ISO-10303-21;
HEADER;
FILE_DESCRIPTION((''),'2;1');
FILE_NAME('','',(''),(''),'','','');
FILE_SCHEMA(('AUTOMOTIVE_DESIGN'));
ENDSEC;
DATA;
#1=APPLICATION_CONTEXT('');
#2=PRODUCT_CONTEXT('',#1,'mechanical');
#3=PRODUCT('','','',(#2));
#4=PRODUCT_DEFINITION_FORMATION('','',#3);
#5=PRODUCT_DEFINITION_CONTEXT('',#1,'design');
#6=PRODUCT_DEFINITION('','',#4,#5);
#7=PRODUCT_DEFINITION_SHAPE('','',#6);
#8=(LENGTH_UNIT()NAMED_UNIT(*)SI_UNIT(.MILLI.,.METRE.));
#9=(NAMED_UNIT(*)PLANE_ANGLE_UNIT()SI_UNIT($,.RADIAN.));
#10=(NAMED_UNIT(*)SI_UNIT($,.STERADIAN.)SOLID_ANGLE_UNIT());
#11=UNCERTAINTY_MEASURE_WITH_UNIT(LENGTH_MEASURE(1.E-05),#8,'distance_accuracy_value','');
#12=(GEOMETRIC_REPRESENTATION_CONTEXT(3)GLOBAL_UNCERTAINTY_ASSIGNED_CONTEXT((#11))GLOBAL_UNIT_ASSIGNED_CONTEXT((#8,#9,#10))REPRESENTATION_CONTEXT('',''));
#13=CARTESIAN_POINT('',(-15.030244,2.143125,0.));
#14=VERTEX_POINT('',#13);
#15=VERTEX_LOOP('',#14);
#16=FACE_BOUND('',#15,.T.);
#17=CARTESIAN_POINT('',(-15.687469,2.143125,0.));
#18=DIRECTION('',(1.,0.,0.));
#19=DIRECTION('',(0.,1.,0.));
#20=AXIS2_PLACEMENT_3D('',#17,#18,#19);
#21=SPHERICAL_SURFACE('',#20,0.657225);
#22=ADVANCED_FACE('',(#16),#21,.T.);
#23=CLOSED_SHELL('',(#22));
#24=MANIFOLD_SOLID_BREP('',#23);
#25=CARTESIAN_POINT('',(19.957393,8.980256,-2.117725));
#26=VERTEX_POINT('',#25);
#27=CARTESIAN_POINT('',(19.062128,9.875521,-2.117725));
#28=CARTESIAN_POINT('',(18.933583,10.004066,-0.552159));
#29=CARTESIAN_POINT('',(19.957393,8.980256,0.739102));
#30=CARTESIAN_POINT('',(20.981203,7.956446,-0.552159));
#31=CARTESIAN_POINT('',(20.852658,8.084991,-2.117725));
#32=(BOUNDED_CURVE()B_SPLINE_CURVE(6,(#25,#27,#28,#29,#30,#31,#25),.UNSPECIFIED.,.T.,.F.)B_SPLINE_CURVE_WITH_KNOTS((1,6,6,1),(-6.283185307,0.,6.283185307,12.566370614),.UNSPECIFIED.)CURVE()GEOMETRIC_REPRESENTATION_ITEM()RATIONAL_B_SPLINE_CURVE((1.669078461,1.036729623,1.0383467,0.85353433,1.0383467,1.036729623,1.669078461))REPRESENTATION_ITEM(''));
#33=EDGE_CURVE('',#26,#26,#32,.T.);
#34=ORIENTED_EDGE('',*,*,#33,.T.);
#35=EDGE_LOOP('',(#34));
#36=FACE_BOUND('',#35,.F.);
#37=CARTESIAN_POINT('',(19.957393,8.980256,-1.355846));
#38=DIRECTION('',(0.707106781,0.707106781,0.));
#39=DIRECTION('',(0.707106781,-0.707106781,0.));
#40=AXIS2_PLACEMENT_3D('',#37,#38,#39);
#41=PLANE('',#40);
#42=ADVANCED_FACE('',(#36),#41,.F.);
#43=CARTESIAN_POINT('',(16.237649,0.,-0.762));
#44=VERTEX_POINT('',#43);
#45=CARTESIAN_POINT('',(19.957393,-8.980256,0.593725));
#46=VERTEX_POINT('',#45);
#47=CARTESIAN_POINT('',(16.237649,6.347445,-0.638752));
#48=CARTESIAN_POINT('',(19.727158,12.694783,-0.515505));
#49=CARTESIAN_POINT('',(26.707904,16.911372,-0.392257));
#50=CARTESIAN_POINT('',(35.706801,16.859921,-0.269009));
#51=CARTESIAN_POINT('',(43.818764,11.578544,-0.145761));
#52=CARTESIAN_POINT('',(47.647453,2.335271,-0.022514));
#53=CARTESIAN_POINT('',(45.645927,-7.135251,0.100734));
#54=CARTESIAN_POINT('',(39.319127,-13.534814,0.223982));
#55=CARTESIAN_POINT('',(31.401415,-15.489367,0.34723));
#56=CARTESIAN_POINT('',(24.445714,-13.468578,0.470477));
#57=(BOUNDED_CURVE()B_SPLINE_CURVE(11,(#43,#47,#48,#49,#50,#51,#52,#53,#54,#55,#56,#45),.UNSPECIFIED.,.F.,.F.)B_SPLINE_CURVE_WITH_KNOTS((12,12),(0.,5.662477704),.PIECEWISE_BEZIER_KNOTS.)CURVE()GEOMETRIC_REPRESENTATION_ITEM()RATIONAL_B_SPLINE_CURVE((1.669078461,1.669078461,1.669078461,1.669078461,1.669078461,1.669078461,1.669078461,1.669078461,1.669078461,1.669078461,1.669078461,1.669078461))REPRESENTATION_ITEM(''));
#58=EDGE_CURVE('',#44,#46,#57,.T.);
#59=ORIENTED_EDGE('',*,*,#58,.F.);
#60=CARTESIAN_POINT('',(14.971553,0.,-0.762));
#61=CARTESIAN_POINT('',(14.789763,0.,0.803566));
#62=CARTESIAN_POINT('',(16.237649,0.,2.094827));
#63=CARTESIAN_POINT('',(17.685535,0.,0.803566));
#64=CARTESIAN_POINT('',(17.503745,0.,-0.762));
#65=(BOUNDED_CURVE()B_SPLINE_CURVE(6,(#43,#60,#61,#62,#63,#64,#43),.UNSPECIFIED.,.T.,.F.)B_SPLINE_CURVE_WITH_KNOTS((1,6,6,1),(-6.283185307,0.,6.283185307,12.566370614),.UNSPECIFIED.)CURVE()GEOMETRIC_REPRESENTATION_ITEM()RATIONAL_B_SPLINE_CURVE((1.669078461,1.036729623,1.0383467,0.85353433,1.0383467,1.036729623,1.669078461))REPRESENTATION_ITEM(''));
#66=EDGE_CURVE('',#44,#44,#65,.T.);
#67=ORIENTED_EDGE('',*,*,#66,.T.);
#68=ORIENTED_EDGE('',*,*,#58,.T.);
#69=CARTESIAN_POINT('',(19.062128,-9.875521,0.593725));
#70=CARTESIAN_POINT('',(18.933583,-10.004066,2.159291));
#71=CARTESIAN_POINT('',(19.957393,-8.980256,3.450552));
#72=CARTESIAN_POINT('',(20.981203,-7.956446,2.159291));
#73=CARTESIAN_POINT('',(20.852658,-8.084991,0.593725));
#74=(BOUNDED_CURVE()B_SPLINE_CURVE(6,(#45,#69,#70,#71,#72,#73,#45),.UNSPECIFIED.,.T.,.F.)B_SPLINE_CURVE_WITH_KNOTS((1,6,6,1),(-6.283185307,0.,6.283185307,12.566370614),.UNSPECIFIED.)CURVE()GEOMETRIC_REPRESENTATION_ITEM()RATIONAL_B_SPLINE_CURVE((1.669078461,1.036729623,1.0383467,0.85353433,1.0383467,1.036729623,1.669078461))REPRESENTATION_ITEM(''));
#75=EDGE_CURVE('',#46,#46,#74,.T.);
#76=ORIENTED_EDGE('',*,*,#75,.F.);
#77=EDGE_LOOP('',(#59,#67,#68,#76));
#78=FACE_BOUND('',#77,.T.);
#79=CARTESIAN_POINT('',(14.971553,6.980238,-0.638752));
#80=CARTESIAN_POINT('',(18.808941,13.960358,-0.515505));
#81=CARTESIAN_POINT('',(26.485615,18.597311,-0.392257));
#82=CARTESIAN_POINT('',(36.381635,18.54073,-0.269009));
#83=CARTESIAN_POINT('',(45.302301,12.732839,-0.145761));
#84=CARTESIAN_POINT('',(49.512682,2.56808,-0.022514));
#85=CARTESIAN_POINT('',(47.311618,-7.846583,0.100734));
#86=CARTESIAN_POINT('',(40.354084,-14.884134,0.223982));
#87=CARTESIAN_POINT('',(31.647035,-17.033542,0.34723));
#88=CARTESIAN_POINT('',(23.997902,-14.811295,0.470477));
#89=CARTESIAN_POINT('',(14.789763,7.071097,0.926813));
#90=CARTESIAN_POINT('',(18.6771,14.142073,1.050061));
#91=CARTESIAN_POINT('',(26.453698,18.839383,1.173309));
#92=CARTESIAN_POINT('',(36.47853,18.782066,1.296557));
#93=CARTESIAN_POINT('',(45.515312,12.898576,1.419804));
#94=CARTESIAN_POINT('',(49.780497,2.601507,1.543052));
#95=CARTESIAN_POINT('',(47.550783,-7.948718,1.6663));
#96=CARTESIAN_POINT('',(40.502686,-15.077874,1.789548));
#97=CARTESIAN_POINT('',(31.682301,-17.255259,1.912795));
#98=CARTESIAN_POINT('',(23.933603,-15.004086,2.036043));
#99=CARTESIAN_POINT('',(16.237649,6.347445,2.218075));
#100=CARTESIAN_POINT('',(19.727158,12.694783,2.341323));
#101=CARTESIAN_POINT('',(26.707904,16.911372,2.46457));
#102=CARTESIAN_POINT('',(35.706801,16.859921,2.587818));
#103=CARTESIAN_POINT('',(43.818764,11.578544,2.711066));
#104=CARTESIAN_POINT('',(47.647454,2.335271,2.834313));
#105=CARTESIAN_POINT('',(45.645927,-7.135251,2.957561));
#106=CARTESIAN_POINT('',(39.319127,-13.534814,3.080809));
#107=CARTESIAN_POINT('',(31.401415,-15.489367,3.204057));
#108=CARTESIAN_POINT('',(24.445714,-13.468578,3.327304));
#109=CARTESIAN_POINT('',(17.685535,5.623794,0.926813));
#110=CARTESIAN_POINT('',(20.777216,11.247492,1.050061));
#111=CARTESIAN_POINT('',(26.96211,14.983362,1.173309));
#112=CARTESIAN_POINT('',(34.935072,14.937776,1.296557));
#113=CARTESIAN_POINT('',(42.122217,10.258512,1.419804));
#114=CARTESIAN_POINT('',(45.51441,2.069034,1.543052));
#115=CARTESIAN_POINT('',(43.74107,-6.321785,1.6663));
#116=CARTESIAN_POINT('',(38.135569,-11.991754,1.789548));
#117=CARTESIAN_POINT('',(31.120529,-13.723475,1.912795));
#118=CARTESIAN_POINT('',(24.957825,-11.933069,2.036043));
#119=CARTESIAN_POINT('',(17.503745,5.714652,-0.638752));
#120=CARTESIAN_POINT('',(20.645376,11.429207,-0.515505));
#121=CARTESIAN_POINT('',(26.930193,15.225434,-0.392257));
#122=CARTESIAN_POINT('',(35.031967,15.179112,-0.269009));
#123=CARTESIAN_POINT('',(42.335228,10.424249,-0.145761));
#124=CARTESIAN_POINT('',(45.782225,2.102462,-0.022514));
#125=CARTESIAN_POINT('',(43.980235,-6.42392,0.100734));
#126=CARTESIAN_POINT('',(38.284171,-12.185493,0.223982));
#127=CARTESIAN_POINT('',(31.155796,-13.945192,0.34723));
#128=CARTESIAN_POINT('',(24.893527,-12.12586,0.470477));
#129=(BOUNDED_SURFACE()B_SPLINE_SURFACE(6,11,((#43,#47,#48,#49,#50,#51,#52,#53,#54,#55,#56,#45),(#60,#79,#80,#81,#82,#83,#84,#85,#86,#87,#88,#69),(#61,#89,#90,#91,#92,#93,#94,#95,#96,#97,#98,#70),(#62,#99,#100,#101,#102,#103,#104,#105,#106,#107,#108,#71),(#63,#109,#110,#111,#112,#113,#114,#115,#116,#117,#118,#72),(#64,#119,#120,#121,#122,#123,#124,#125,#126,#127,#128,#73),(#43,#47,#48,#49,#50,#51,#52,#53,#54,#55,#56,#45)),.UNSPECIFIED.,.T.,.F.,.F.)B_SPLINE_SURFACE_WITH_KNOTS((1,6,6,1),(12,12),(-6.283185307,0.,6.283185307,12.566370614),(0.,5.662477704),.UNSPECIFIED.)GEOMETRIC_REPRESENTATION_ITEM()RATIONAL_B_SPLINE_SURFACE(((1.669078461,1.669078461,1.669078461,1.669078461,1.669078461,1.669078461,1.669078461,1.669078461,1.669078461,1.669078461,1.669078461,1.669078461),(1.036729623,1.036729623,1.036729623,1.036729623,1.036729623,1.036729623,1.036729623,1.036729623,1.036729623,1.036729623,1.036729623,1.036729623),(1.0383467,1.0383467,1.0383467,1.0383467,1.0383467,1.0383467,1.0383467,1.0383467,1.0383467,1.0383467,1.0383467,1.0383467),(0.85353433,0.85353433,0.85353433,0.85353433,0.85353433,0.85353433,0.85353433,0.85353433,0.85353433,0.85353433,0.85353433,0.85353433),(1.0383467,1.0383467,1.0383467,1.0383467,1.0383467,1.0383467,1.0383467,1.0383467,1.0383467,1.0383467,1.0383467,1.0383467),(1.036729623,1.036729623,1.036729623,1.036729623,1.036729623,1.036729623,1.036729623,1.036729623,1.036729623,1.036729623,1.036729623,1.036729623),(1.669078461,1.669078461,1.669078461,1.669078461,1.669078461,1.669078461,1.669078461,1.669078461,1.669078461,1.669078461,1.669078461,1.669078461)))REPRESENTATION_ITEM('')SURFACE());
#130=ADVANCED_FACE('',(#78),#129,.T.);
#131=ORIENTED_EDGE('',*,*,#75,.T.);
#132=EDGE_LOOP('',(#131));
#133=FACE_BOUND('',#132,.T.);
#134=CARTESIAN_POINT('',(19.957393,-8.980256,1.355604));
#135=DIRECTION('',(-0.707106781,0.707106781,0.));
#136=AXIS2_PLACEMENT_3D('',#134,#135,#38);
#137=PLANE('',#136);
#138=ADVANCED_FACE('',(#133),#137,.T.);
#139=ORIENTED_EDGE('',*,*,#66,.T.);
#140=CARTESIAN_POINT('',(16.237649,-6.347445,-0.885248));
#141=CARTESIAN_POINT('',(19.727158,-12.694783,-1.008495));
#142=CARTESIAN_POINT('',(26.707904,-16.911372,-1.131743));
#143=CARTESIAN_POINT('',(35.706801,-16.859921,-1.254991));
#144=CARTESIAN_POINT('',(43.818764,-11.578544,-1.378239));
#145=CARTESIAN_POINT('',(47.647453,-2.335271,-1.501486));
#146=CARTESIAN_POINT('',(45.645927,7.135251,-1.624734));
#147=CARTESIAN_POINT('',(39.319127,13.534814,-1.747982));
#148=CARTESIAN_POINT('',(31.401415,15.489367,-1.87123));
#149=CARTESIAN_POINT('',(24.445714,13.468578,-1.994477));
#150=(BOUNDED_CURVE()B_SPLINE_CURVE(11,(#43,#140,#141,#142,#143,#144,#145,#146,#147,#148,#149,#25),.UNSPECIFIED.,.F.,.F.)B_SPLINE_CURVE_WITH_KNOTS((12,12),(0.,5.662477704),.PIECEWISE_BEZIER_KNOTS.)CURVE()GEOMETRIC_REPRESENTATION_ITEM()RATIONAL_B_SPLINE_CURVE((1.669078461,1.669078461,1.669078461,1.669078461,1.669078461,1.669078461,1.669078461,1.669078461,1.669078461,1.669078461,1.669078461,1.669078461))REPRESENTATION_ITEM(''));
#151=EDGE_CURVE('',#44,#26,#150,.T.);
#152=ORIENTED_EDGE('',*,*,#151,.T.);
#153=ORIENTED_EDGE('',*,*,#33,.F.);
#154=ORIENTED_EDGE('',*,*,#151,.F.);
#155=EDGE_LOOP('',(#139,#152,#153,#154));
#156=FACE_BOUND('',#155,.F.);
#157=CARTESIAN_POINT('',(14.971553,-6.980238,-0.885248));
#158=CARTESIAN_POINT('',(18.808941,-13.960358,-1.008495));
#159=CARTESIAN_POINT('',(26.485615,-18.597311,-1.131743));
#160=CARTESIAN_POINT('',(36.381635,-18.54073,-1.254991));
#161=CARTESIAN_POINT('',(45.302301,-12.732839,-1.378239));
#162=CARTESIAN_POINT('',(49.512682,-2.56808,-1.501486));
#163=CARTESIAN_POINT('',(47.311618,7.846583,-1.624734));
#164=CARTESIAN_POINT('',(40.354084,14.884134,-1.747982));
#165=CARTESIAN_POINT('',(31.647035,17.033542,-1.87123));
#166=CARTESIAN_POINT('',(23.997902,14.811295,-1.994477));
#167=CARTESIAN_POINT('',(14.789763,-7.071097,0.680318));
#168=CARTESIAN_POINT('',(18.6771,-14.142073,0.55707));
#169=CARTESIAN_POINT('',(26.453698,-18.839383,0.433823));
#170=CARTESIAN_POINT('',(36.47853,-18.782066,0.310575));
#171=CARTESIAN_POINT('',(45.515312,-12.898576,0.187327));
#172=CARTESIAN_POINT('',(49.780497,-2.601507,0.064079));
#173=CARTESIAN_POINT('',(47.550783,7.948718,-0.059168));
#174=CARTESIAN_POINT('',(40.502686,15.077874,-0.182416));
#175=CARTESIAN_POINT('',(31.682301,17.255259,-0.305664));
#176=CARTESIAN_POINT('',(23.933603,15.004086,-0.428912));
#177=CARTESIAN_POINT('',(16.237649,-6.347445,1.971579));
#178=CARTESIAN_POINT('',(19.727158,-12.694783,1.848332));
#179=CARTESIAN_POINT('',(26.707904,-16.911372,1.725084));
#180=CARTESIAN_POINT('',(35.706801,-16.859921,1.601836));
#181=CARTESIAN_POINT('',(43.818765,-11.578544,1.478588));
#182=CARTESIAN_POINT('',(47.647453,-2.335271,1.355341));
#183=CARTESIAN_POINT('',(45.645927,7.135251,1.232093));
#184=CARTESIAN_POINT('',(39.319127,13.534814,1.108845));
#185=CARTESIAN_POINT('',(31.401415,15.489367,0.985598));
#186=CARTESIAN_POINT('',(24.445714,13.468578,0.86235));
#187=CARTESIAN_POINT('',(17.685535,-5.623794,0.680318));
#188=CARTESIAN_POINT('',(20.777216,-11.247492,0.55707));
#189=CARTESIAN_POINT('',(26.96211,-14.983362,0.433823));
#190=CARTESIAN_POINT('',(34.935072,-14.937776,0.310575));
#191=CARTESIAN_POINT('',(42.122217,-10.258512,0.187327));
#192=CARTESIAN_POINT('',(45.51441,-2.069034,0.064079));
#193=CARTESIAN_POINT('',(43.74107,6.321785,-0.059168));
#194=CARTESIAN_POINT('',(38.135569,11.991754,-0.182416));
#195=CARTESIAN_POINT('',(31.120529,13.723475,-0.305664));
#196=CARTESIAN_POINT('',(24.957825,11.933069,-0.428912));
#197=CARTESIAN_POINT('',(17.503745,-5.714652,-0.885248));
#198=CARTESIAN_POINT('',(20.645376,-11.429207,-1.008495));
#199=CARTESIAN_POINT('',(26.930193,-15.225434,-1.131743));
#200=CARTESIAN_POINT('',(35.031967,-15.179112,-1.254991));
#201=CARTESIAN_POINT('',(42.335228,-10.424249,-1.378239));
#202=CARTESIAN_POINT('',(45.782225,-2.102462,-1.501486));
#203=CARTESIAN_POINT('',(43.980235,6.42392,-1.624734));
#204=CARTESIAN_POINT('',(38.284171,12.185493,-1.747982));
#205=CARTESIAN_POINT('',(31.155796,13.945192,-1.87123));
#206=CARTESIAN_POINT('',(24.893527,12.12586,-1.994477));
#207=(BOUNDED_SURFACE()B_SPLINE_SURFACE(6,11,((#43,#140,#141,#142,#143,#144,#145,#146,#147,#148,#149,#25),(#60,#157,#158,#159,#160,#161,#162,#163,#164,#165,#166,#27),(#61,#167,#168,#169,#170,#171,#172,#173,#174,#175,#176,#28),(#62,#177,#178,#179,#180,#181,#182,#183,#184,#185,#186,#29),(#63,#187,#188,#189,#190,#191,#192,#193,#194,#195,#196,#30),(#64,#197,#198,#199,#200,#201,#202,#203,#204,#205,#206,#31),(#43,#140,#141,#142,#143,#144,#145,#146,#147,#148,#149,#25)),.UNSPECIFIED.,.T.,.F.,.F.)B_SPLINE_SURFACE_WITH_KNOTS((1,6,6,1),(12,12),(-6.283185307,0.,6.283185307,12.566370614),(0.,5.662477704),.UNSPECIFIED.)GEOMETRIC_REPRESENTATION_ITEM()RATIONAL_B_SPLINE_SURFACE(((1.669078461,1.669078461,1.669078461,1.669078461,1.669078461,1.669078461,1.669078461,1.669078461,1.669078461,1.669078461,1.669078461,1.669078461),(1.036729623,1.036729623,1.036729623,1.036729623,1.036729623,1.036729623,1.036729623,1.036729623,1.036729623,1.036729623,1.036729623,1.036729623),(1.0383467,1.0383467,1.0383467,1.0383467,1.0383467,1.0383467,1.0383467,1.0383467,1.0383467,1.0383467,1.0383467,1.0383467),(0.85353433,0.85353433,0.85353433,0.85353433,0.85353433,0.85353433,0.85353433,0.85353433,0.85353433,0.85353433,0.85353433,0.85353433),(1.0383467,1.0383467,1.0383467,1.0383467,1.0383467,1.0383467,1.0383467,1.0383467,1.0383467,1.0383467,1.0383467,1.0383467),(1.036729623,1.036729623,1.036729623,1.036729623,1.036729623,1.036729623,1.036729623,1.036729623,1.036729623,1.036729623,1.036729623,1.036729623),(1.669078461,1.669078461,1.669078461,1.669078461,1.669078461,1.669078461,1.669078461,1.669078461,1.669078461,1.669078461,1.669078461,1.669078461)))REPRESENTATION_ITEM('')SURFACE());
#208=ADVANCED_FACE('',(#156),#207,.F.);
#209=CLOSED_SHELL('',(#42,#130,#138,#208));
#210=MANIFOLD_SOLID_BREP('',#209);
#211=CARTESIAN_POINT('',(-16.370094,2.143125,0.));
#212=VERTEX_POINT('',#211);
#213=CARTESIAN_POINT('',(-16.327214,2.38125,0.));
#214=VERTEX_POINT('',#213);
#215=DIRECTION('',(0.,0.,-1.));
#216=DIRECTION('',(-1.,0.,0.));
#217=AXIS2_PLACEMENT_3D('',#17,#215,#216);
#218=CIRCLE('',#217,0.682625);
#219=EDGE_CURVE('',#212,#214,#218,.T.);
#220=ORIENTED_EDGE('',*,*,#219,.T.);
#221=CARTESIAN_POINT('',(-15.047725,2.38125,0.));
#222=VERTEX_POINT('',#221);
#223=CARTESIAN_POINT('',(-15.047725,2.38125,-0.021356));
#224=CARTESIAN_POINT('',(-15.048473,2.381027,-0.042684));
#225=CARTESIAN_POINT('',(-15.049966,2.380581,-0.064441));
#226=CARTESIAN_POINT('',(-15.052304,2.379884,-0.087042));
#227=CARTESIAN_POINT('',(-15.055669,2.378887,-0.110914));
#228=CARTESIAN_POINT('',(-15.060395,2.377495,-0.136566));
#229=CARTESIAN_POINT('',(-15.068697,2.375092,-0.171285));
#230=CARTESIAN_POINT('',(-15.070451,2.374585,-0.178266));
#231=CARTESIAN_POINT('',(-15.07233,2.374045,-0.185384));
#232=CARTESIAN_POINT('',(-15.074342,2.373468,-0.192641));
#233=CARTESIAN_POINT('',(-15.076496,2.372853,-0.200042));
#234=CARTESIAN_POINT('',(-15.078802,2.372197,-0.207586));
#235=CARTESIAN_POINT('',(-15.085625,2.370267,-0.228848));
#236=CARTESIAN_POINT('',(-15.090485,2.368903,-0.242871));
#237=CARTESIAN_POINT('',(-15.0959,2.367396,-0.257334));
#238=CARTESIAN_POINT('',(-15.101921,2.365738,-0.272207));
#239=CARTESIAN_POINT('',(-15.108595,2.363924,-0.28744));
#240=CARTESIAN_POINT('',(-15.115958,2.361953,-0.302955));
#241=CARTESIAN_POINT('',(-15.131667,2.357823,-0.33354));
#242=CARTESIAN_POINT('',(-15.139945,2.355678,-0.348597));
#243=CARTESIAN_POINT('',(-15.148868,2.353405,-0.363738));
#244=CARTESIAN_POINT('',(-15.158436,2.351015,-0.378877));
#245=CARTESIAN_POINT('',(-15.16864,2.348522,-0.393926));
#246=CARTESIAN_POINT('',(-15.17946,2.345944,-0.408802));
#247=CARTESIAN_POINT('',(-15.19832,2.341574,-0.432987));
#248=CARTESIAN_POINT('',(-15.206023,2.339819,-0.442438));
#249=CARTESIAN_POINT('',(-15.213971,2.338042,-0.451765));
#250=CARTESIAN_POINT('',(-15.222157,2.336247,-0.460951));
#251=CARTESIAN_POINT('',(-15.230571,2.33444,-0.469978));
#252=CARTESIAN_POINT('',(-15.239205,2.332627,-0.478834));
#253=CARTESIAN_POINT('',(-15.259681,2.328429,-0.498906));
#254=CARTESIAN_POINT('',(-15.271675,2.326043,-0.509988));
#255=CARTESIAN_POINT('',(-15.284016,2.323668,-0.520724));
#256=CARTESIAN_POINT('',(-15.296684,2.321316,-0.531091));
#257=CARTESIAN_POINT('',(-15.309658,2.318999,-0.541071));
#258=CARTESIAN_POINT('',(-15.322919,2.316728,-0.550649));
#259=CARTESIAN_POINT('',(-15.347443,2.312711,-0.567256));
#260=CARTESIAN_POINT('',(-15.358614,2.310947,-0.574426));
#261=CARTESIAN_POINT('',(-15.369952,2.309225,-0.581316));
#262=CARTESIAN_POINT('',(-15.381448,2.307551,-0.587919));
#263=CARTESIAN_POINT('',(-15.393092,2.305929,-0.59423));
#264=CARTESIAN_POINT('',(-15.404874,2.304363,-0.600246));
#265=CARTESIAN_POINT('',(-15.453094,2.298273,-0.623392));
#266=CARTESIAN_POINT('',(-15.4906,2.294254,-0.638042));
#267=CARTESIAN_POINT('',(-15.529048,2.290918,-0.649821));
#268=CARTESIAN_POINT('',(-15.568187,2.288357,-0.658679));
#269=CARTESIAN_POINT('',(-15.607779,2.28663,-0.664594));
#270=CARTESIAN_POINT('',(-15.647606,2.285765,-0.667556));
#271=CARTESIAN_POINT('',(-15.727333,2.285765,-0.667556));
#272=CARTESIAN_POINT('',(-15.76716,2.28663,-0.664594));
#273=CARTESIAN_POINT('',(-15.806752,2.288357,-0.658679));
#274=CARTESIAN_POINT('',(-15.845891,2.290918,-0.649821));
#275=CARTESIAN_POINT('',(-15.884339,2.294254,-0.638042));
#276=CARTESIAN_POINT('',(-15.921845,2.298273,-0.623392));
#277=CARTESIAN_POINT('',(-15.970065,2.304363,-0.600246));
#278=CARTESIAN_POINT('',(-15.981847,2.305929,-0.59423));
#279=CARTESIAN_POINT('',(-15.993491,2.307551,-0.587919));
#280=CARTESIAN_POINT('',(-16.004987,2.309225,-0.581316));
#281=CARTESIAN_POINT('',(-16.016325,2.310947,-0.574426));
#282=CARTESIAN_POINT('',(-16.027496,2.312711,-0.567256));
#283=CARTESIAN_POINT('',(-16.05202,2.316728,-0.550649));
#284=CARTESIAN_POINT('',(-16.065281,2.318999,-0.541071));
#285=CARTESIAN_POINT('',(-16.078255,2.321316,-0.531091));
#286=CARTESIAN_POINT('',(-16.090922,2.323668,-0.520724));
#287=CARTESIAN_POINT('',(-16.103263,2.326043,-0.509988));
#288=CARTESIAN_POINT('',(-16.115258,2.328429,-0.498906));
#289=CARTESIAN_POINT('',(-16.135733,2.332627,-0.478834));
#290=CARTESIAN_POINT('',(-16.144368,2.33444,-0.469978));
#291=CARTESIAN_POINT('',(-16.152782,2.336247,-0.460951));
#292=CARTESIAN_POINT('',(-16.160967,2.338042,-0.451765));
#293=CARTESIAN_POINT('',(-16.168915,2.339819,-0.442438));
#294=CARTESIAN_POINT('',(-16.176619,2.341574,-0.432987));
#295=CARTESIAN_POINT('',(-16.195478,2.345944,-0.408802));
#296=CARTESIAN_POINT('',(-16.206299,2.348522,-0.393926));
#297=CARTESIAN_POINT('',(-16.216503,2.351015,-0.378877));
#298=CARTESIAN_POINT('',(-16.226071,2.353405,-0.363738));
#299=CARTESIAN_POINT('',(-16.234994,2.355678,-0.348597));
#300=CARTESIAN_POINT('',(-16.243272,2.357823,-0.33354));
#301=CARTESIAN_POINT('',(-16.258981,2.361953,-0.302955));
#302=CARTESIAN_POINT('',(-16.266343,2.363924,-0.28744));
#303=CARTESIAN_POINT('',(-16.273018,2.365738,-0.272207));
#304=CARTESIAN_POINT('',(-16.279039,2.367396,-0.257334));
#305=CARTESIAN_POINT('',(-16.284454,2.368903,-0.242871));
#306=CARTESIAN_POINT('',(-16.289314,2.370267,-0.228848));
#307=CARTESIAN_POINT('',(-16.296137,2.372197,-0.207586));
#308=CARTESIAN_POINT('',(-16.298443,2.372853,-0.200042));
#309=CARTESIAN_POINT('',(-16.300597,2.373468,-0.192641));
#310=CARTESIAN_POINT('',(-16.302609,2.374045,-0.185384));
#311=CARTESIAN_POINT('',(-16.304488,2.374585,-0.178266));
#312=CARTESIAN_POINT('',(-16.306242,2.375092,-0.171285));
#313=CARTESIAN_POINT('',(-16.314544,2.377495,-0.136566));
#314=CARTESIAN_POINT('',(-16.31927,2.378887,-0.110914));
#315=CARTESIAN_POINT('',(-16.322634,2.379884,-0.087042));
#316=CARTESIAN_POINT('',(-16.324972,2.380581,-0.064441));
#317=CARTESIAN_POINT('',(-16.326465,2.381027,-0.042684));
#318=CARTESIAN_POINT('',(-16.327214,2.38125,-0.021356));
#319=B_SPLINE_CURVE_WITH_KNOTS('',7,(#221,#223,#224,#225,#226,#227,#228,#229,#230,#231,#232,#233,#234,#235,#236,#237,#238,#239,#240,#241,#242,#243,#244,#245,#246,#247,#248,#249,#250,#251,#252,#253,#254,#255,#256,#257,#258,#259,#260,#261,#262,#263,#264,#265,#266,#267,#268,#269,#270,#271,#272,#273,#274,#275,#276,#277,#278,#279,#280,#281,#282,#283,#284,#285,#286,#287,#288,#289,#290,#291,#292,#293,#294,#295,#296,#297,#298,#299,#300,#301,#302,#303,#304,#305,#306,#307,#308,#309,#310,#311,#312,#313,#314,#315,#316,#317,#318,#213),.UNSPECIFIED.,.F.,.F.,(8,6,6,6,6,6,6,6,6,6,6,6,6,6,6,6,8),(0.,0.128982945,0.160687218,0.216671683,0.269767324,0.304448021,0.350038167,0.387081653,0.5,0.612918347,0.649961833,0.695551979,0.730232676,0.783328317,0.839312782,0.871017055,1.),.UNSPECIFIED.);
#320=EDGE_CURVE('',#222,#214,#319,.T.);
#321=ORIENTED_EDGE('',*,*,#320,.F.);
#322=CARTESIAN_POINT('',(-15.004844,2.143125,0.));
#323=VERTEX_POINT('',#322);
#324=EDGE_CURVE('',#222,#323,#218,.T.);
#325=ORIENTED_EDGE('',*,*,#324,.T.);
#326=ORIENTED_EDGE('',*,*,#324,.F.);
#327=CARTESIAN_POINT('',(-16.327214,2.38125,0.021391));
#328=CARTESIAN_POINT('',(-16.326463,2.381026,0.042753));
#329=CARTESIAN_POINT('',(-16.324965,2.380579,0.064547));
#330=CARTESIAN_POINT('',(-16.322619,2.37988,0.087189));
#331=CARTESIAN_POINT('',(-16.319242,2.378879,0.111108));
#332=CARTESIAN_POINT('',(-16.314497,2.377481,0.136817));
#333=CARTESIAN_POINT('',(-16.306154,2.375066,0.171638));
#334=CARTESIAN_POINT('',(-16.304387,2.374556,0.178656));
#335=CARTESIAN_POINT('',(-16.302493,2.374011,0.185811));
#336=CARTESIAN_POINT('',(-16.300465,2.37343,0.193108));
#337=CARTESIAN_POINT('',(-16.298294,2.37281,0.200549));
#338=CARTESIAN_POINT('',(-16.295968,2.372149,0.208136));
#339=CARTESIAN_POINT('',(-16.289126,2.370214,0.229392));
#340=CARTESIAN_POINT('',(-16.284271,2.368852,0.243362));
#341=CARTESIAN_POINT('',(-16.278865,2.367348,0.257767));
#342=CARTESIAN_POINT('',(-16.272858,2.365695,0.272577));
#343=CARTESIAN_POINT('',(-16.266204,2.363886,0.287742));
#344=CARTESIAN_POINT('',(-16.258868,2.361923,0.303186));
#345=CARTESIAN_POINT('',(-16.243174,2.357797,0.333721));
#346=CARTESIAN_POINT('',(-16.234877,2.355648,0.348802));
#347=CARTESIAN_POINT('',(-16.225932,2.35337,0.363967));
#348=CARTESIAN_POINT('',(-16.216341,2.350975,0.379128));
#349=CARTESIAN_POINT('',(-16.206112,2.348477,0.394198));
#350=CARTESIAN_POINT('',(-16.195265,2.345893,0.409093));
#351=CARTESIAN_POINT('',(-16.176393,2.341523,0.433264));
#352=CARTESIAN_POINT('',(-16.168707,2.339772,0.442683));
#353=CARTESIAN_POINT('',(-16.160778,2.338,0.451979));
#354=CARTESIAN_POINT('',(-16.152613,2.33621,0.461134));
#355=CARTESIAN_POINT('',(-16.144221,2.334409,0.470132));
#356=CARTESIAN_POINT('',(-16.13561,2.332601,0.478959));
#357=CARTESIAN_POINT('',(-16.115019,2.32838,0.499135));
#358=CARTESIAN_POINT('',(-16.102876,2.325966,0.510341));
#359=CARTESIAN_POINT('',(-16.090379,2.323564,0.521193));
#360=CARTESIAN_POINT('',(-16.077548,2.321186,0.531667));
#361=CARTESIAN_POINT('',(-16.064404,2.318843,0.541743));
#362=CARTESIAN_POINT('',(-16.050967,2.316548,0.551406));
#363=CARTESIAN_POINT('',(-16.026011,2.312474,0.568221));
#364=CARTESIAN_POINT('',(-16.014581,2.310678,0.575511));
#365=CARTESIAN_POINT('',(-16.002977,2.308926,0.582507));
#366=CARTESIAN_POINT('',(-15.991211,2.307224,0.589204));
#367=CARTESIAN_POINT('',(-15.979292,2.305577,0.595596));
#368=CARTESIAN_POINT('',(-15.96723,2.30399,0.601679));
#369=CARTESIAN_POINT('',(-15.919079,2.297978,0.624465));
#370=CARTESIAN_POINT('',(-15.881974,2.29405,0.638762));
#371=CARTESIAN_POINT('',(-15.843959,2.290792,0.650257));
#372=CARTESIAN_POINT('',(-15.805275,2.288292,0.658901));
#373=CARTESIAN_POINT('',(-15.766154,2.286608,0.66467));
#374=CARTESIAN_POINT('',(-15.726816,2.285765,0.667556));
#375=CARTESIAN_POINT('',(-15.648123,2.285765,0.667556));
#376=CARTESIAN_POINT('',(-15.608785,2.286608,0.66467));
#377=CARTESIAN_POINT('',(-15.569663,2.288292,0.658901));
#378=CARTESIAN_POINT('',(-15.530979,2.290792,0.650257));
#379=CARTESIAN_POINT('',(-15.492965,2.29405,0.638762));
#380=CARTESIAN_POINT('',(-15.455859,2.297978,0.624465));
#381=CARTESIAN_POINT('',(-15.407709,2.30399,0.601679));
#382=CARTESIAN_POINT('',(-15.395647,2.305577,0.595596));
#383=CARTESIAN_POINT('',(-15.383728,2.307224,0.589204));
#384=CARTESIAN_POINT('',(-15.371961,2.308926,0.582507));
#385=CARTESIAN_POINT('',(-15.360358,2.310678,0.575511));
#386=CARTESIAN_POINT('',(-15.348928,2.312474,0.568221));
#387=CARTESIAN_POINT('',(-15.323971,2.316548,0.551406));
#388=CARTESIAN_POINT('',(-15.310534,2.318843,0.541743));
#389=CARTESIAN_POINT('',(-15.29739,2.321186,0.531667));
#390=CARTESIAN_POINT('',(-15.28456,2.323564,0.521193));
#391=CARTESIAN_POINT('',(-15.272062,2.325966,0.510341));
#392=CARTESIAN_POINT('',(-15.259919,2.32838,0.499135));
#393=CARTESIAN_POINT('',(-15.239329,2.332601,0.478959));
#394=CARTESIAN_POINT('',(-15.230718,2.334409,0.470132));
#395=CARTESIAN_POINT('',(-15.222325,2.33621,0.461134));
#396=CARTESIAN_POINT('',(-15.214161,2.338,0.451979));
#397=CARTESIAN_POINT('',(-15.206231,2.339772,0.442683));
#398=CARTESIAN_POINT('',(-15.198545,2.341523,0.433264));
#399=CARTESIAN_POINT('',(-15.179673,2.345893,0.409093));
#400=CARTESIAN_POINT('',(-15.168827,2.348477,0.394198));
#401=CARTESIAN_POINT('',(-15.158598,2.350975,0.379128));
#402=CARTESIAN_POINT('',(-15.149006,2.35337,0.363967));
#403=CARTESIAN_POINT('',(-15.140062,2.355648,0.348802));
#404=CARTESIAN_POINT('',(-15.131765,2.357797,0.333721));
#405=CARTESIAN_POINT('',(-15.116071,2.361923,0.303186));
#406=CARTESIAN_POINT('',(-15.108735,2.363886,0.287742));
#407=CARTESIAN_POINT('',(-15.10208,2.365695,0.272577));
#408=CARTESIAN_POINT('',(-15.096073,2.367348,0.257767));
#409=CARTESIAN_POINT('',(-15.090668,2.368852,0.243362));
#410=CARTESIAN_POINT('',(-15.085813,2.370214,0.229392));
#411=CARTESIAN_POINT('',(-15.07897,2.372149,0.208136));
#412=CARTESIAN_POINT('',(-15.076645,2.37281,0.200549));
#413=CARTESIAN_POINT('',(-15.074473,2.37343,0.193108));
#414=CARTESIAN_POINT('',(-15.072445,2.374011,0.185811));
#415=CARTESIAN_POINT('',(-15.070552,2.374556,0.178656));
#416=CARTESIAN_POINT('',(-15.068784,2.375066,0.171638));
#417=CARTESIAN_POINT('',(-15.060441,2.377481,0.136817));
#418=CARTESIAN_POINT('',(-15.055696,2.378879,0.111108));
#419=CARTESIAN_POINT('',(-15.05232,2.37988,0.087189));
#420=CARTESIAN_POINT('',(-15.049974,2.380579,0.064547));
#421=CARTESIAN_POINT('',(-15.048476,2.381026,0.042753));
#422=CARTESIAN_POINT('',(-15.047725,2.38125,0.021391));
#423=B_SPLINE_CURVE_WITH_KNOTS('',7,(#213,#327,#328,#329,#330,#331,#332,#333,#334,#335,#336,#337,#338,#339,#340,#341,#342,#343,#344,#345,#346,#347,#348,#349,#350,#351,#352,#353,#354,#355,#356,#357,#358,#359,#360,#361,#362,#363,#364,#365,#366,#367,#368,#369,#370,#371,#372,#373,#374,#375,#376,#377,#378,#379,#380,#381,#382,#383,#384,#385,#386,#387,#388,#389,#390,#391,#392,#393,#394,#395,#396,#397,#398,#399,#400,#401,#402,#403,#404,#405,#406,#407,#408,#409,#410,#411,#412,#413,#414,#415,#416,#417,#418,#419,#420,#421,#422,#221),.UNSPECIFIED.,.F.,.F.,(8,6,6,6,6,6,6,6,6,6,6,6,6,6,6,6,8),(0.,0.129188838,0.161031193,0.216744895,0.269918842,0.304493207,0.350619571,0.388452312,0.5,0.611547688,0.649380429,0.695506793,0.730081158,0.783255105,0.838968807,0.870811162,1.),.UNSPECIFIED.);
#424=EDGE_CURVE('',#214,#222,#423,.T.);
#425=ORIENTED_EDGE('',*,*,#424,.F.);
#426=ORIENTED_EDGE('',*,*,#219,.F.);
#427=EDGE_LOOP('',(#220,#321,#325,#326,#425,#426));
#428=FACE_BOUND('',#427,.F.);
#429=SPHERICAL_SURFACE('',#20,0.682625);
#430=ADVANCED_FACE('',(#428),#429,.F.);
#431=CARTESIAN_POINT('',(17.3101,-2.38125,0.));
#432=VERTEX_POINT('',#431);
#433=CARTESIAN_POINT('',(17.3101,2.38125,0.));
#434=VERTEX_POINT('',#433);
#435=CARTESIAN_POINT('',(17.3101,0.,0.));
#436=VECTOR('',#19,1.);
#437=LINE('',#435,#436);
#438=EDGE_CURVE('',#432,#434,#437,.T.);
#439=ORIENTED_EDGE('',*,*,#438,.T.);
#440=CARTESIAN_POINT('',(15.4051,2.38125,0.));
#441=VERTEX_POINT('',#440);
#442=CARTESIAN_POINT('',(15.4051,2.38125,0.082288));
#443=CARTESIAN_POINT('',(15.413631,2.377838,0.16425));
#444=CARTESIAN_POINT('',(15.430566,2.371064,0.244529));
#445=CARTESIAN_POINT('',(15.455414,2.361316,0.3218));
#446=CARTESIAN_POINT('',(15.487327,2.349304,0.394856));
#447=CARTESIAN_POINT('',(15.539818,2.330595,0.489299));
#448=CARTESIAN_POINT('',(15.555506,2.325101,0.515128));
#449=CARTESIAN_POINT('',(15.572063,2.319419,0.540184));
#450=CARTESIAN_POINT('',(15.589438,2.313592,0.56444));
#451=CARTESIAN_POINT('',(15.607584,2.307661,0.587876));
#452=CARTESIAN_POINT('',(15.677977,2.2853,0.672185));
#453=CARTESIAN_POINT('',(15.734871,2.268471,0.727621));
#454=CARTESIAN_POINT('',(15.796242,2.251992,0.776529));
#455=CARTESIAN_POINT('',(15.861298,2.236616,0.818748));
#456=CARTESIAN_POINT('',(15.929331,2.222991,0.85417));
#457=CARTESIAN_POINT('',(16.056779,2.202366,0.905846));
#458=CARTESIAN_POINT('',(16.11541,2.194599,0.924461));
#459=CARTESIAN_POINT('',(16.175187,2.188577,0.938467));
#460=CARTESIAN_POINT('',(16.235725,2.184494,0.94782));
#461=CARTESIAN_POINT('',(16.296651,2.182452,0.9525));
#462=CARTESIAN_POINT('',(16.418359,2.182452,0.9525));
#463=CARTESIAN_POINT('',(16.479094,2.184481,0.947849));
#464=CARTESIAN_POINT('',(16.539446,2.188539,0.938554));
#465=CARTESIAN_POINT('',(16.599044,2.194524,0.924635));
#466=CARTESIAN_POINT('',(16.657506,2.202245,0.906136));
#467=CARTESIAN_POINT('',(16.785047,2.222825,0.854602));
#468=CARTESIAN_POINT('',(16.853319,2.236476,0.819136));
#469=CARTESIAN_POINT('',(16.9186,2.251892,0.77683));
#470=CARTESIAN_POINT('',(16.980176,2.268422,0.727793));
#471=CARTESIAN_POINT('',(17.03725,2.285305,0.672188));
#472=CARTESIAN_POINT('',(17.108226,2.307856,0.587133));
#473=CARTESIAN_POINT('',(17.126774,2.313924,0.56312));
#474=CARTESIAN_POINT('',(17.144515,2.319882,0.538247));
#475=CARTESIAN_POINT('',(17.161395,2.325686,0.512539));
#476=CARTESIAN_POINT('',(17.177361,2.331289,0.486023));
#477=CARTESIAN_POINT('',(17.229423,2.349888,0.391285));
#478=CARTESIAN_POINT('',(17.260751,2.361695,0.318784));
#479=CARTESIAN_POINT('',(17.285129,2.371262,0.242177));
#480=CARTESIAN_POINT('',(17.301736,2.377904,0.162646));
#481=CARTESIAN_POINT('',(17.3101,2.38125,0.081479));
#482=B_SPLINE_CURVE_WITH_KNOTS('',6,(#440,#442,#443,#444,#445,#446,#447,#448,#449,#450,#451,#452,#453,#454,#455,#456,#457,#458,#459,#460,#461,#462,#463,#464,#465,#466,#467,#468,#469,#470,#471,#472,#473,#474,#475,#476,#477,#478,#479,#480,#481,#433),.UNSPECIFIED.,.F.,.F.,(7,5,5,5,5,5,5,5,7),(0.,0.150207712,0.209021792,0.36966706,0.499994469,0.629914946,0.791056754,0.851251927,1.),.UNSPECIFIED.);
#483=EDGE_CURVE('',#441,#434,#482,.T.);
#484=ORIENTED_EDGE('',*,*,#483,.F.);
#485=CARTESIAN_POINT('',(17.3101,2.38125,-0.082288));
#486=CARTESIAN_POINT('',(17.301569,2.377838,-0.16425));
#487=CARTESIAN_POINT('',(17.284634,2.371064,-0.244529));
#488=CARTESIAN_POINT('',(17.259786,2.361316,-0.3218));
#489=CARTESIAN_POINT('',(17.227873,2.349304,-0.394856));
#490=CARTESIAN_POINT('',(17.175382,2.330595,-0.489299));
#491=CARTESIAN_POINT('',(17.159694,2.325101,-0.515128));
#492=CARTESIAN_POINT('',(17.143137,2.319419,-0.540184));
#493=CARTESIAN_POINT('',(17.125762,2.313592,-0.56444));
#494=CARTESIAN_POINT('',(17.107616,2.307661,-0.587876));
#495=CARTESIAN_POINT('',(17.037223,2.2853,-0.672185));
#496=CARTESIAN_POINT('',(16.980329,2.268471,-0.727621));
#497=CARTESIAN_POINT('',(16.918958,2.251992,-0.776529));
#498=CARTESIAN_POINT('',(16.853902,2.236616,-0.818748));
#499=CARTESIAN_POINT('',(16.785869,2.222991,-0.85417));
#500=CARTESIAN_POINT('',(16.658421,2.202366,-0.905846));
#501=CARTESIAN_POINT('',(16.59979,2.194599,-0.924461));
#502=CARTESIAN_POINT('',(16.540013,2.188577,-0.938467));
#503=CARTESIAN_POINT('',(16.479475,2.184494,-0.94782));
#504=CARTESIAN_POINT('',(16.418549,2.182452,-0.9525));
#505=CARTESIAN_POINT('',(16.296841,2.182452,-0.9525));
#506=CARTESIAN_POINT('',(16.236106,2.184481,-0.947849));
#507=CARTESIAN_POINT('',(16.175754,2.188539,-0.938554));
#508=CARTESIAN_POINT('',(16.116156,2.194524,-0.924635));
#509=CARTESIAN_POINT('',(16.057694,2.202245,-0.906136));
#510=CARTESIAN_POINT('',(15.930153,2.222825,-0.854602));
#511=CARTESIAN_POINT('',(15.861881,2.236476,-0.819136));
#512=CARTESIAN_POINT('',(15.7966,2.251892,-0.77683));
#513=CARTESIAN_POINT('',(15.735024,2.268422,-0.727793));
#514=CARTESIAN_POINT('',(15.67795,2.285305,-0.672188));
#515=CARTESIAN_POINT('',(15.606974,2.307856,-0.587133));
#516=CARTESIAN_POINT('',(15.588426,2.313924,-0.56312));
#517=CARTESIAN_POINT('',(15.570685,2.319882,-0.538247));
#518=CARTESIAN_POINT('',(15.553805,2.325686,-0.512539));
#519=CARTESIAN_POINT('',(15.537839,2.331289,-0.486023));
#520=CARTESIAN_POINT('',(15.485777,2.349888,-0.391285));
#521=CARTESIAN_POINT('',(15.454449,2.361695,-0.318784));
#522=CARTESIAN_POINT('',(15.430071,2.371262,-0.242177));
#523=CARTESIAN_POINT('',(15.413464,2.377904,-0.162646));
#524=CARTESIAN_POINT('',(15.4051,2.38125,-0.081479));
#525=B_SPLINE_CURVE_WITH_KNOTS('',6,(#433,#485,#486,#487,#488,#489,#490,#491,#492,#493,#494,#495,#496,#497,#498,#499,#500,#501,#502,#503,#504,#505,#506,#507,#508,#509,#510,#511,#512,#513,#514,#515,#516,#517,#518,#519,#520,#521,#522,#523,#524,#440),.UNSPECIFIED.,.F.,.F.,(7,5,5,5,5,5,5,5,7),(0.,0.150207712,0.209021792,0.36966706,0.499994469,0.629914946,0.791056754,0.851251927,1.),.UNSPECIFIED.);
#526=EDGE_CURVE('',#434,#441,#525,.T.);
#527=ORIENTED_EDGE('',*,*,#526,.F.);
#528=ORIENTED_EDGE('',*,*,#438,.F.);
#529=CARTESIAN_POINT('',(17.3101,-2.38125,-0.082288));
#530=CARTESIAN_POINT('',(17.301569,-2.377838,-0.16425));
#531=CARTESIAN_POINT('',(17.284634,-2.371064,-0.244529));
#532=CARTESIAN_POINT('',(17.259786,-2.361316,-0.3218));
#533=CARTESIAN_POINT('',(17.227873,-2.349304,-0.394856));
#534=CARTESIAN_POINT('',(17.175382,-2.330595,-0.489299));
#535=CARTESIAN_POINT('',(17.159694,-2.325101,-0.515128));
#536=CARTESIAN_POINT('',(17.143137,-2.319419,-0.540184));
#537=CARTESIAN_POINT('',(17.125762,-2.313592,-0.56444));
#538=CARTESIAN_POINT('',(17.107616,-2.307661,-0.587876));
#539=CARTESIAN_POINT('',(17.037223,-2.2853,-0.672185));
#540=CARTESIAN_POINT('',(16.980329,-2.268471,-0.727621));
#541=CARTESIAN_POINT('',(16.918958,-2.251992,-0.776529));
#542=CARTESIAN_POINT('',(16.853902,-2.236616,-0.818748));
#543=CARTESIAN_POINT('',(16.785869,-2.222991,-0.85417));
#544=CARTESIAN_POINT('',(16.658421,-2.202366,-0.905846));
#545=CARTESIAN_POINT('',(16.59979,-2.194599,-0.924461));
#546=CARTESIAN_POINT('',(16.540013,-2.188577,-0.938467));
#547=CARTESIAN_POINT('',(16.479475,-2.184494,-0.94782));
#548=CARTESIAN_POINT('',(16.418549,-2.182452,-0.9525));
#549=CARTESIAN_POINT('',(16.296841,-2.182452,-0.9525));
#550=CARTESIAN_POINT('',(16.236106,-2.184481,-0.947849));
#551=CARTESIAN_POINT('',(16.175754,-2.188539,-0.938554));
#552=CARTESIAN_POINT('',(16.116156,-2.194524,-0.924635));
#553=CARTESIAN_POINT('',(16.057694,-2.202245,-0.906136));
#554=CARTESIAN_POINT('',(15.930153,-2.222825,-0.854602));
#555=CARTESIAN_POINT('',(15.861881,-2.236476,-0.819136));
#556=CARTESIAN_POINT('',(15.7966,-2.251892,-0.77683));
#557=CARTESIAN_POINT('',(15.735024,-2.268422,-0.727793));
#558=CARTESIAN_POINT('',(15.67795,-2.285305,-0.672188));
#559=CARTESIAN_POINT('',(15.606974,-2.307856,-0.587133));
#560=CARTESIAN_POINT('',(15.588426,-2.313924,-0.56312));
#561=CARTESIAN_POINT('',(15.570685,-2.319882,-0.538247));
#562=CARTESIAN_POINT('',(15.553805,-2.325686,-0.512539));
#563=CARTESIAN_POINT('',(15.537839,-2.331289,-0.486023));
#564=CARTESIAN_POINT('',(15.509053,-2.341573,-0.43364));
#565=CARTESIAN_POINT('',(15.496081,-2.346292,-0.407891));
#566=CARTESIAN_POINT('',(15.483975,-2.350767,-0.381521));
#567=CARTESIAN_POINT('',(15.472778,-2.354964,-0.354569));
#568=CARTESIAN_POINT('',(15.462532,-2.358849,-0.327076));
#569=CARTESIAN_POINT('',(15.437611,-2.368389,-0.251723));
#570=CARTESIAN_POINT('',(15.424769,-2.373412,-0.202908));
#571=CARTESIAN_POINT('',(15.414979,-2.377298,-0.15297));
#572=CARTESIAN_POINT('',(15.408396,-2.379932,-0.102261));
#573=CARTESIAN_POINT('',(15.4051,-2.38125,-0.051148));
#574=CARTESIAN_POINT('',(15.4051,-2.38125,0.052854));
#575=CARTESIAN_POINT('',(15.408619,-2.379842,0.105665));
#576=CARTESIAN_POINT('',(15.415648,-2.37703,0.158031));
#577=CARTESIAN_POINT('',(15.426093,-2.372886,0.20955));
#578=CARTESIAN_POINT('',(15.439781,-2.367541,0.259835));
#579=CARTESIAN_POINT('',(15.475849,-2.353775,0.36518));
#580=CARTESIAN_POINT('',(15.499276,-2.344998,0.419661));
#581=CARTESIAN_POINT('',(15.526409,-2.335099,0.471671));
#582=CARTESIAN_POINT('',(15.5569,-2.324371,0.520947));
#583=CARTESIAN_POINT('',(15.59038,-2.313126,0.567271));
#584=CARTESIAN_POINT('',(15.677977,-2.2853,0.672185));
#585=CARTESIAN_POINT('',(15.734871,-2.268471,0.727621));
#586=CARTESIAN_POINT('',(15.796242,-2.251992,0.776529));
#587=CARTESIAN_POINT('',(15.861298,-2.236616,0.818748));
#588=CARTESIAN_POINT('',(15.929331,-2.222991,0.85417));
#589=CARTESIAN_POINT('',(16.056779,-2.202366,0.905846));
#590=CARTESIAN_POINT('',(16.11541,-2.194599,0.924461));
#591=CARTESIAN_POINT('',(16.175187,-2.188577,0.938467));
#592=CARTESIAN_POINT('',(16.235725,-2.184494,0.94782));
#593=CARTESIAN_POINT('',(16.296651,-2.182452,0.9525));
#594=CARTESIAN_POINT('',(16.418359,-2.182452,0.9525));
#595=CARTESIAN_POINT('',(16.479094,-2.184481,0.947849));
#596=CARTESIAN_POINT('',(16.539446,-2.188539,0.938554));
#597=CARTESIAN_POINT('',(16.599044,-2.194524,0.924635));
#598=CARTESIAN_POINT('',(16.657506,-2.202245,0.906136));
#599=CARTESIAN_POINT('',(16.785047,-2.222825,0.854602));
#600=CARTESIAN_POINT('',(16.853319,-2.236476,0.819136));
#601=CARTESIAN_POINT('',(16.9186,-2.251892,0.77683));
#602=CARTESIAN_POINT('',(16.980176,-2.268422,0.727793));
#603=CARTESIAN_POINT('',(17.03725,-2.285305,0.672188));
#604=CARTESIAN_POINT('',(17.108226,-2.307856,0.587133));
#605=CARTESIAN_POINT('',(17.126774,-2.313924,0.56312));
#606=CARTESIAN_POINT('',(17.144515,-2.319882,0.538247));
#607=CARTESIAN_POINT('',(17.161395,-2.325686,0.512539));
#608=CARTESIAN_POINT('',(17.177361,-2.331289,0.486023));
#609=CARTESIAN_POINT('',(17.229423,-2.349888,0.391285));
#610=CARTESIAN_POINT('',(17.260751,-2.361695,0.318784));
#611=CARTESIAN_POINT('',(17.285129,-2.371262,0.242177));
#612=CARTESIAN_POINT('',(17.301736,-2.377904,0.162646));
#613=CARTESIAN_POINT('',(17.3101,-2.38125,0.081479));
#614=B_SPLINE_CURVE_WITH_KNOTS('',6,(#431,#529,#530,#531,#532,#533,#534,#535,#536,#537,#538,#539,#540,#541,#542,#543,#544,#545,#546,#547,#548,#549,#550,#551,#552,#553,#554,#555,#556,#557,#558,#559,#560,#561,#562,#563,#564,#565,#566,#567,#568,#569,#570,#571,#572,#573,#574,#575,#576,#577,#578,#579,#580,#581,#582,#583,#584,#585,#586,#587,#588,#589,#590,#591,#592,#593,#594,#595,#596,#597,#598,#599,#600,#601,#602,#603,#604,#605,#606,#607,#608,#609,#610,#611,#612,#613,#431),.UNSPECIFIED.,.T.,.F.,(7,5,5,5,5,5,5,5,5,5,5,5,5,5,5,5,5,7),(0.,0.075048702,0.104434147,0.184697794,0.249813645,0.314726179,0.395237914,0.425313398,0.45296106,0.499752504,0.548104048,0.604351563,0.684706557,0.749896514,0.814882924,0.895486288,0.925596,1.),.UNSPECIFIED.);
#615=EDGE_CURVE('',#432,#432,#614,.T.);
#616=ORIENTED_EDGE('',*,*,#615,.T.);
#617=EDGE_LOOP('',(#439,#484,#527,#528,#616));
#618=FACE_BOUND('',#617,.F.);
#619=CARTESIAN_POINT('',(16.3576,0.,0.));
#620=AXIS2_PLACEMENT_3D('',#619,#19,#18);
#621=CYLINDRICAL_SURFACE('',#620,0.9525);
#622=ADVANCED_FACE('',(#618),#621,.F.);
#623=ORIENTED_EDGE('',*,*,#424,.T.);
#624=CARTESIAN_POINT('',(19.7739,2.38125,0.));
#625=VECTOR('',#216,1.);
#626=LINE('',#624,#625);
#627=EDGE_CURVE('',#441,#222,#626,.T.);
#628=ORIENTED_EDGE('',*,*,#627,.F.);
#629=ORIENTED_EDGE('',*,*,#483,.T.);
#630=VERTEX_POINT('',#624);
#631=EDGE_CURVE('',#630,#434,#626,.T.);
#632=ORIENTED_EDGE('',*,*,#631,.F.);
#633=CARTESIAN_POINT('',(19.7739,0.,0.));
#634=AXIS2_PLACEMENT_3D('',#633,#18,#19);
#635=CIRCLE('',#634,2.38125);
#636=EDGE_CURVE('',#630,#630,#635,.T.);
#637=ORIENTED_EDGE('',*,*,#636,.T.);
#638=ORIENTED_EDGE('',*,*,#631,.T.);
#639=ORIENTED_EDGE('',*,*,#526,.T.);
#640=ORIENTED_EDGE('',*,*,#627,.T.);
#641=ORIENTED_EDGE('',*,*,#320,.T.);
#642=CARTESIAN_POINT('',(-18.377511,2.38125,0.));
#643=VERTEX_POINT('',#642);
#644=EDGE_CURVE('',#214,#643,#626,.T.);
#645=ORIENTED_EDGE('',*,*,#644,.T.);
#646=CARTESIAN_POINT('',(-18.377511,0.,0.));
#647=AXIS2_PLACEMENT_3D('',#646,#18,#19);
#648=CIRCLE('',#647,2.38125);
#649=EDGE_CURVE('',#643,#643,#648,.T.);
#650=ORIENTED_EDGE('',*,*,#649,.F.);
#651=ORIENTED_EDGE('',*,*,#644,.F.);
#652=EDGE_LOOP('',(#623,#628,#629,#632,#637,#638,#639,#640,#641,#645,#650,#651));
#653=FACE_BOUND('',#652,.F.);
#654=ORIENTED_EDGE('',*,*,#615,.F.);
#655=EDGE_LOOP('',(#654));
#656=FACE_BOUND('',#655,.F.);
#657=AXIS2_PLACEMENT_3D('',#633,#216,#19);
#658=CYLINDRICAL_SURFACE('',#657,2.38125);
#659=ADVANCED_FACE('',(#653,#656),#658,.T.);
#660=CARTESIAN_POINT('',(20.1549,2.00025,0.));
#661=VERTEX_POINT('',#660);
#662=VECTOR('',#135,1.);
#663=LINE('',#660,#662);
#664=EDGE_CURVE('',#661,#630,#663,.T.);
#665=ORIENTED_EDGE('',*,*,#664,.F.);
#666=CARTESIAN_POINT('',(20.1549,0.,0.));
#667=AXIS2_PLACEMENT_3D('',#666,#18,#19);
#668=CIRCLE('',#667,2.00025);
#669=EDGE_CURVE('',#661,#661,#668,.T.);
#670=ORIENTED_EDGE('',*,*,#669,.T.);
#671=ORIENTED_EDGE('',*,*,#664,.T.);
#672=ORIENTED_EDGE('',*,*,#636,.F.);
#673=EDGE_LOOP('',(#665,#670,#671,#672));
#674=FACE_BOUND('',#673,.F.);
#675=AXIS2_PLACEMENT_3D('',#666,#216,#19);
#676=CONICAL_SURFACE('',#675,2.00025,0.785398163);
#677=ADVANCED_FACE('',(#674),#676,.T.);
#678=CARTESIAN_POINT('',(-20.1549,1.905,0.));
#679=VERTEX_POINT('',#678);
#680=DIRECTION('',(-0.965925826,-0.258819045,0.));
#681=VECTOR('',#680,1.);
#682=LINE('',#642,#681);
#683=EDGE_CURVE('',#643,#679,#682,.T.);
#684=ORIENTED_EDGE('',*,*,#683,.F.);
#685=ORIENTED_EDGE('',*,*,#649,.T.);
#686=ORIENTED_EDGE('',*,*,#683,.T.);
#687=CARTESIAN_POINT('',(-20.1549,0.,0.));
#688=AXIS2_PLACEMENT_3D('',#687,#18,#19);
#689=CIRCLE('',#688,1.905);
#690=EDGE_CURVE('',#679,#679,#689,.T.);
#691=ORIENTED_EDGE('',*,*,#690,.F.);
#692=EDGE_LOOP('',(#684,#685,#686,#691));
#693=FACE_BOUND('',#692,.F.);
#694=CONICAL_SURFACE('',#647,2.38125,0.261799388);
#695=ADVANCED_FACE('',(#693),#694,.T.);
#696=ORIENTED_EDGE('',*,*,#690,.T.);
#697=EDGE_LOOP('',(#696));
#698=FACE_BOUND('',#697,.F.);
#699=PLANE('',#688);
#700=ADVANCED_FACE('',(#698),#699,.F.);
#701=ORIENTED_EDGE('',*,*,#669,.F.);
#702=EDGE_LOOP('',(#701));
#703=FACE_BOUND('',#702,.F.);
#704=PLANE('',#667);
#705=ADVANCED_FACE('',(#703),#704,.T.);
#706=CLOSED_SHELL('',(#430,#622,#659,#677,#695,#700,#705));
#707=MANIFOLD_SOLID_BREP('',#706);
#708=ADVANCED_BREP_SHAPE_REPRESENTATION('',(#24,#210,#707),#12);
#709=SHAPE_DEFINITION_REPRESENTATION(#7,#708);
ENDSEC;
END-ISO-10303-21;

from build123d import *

# Parameters (mm, degrees)
SKETCH4_W          = 0.9525
SKETCH4_H          = 4.7625
SWEEP1_PITCH       = 1.5494
SWEEP1_HEIGHT      = 1.355725
SWEEP1_RADIUS      = 13.462
SKETCH6_R          = 0.762
SWEEP2_PITCH       = 1.5494
SWEEP2_HEIGHT      = 1.355725
SWEEP2_RADIUS      = 13.462
SWEEP2_START_ANGLE = -180
SKETCH6_2_R        = 0.762


with BuildPart() as part:
    # Sketch1 → Revolve1 (revolve)
    with BuildSketch(Plane.XY):
        Polygon((20.1549, 2.00025), (19.7739, 2.38125), (-18.377510803, 2.38125), (-20.1549, 1.905), (-20.1549, 0), (20.1549, 0), align=None)
    revolve(axis=Axis((20.1549, 0, 0), (1, 0, 0)))

    # Sketch2 → Cut-Revolve1 (revolve, cut)
    with BuildSketch(Plane.XY):
        with BuildLine():
            Line((-15.004844331, 2.143125), (-16.370094331, 2.143125))
            ThreePointArc((-16.370094331, 2.143125), (-15.687469331, 2.82575), (-15.004844331, 2.143125))
        make_face()
    revolve(axis=Axis((-15.004844331, 2.143125, 0), (1, 0, 0)), mode=Mode.SUBTRACT)

    # Sketch4 → Cut-Revolve2 (revolve, cut)
    with BuildSketch(Plane.XY):
        with Locations((16.83385, 0)):
            Rectangle(SKETCH4_W, SKETCH4_H)
    revolve(axis=Axis((16.3576, -2.38125, 0), (0, 1, 0)), mode=Mode.SUBTRACT)


with BuildPart() as body_2:
    # Sketch3 → Revolve2 (revolve)
    with BuildSketch(Plane.XY):
        with BuildLine():
            Line((-15.030244331, 2.143125), (-16.344694331, 2.143125))
            ThreePointArc((-16.344694331, 2.143125), (-15.687469331, 2.80035), (-15.030244331, 2.143125))
        make_face()
    revolve(axis=Axis((-15.030244331, 2.143125, 0), (1, 0, 0)))


with BuildPart() as body_3:
    # Sweep1: sweep along a helix
    with BuildLine() as sweep1_path:
        Helix(SWEEP1_PITCH, SWEEP1_HEIGHT, SWEEP1_RADIUS, center=(28.937648906, 0, 0), direction=(0, 0, -1), lefthand=True)
    # Sketch6 → Sweep1 (sweep)
    with BuildSketch(Plane(origin=(114.003847968, 0, 0), x_dir=(0, 0, -1), z_dir=(0, 1, 0))):
        with Locations((0, 97.766199061)):
            Circle(SKETCH6_R)
    sweep(path=sweep1_path.line, is_frenet=True)

    # Sweep2: sweep along a helix
    with BuildLine() as sweep2_path:
        add(Helix(SWEEP2_PITCH, SWEEP2_HEIGHT, SWEEP2_RADIUS, center=(28.937648906, 0, 0), direction=(0, 0, 1), lefthand=True, mode=Mode.PRIVATE).rotate(Axis((28.937648906, 0, 0), (0, 0, 1)), SWEEP2_START_ANGLE))
    # Sketch6<2> → Sweep2 (sweep)
    with BuildSketch(Plane(origin=(114.003847968, 0, 0), x_dir=(0, 0, -1), z_dir=(0, 1, 0))):
        with Locations((0, 97.766199061)):
            Circle(SKETCH6_2_R)
    sweep(path=sweep2_path.line, is_frenet=True)


solid = Compound([part.part, body_2.part, body_3.part])
